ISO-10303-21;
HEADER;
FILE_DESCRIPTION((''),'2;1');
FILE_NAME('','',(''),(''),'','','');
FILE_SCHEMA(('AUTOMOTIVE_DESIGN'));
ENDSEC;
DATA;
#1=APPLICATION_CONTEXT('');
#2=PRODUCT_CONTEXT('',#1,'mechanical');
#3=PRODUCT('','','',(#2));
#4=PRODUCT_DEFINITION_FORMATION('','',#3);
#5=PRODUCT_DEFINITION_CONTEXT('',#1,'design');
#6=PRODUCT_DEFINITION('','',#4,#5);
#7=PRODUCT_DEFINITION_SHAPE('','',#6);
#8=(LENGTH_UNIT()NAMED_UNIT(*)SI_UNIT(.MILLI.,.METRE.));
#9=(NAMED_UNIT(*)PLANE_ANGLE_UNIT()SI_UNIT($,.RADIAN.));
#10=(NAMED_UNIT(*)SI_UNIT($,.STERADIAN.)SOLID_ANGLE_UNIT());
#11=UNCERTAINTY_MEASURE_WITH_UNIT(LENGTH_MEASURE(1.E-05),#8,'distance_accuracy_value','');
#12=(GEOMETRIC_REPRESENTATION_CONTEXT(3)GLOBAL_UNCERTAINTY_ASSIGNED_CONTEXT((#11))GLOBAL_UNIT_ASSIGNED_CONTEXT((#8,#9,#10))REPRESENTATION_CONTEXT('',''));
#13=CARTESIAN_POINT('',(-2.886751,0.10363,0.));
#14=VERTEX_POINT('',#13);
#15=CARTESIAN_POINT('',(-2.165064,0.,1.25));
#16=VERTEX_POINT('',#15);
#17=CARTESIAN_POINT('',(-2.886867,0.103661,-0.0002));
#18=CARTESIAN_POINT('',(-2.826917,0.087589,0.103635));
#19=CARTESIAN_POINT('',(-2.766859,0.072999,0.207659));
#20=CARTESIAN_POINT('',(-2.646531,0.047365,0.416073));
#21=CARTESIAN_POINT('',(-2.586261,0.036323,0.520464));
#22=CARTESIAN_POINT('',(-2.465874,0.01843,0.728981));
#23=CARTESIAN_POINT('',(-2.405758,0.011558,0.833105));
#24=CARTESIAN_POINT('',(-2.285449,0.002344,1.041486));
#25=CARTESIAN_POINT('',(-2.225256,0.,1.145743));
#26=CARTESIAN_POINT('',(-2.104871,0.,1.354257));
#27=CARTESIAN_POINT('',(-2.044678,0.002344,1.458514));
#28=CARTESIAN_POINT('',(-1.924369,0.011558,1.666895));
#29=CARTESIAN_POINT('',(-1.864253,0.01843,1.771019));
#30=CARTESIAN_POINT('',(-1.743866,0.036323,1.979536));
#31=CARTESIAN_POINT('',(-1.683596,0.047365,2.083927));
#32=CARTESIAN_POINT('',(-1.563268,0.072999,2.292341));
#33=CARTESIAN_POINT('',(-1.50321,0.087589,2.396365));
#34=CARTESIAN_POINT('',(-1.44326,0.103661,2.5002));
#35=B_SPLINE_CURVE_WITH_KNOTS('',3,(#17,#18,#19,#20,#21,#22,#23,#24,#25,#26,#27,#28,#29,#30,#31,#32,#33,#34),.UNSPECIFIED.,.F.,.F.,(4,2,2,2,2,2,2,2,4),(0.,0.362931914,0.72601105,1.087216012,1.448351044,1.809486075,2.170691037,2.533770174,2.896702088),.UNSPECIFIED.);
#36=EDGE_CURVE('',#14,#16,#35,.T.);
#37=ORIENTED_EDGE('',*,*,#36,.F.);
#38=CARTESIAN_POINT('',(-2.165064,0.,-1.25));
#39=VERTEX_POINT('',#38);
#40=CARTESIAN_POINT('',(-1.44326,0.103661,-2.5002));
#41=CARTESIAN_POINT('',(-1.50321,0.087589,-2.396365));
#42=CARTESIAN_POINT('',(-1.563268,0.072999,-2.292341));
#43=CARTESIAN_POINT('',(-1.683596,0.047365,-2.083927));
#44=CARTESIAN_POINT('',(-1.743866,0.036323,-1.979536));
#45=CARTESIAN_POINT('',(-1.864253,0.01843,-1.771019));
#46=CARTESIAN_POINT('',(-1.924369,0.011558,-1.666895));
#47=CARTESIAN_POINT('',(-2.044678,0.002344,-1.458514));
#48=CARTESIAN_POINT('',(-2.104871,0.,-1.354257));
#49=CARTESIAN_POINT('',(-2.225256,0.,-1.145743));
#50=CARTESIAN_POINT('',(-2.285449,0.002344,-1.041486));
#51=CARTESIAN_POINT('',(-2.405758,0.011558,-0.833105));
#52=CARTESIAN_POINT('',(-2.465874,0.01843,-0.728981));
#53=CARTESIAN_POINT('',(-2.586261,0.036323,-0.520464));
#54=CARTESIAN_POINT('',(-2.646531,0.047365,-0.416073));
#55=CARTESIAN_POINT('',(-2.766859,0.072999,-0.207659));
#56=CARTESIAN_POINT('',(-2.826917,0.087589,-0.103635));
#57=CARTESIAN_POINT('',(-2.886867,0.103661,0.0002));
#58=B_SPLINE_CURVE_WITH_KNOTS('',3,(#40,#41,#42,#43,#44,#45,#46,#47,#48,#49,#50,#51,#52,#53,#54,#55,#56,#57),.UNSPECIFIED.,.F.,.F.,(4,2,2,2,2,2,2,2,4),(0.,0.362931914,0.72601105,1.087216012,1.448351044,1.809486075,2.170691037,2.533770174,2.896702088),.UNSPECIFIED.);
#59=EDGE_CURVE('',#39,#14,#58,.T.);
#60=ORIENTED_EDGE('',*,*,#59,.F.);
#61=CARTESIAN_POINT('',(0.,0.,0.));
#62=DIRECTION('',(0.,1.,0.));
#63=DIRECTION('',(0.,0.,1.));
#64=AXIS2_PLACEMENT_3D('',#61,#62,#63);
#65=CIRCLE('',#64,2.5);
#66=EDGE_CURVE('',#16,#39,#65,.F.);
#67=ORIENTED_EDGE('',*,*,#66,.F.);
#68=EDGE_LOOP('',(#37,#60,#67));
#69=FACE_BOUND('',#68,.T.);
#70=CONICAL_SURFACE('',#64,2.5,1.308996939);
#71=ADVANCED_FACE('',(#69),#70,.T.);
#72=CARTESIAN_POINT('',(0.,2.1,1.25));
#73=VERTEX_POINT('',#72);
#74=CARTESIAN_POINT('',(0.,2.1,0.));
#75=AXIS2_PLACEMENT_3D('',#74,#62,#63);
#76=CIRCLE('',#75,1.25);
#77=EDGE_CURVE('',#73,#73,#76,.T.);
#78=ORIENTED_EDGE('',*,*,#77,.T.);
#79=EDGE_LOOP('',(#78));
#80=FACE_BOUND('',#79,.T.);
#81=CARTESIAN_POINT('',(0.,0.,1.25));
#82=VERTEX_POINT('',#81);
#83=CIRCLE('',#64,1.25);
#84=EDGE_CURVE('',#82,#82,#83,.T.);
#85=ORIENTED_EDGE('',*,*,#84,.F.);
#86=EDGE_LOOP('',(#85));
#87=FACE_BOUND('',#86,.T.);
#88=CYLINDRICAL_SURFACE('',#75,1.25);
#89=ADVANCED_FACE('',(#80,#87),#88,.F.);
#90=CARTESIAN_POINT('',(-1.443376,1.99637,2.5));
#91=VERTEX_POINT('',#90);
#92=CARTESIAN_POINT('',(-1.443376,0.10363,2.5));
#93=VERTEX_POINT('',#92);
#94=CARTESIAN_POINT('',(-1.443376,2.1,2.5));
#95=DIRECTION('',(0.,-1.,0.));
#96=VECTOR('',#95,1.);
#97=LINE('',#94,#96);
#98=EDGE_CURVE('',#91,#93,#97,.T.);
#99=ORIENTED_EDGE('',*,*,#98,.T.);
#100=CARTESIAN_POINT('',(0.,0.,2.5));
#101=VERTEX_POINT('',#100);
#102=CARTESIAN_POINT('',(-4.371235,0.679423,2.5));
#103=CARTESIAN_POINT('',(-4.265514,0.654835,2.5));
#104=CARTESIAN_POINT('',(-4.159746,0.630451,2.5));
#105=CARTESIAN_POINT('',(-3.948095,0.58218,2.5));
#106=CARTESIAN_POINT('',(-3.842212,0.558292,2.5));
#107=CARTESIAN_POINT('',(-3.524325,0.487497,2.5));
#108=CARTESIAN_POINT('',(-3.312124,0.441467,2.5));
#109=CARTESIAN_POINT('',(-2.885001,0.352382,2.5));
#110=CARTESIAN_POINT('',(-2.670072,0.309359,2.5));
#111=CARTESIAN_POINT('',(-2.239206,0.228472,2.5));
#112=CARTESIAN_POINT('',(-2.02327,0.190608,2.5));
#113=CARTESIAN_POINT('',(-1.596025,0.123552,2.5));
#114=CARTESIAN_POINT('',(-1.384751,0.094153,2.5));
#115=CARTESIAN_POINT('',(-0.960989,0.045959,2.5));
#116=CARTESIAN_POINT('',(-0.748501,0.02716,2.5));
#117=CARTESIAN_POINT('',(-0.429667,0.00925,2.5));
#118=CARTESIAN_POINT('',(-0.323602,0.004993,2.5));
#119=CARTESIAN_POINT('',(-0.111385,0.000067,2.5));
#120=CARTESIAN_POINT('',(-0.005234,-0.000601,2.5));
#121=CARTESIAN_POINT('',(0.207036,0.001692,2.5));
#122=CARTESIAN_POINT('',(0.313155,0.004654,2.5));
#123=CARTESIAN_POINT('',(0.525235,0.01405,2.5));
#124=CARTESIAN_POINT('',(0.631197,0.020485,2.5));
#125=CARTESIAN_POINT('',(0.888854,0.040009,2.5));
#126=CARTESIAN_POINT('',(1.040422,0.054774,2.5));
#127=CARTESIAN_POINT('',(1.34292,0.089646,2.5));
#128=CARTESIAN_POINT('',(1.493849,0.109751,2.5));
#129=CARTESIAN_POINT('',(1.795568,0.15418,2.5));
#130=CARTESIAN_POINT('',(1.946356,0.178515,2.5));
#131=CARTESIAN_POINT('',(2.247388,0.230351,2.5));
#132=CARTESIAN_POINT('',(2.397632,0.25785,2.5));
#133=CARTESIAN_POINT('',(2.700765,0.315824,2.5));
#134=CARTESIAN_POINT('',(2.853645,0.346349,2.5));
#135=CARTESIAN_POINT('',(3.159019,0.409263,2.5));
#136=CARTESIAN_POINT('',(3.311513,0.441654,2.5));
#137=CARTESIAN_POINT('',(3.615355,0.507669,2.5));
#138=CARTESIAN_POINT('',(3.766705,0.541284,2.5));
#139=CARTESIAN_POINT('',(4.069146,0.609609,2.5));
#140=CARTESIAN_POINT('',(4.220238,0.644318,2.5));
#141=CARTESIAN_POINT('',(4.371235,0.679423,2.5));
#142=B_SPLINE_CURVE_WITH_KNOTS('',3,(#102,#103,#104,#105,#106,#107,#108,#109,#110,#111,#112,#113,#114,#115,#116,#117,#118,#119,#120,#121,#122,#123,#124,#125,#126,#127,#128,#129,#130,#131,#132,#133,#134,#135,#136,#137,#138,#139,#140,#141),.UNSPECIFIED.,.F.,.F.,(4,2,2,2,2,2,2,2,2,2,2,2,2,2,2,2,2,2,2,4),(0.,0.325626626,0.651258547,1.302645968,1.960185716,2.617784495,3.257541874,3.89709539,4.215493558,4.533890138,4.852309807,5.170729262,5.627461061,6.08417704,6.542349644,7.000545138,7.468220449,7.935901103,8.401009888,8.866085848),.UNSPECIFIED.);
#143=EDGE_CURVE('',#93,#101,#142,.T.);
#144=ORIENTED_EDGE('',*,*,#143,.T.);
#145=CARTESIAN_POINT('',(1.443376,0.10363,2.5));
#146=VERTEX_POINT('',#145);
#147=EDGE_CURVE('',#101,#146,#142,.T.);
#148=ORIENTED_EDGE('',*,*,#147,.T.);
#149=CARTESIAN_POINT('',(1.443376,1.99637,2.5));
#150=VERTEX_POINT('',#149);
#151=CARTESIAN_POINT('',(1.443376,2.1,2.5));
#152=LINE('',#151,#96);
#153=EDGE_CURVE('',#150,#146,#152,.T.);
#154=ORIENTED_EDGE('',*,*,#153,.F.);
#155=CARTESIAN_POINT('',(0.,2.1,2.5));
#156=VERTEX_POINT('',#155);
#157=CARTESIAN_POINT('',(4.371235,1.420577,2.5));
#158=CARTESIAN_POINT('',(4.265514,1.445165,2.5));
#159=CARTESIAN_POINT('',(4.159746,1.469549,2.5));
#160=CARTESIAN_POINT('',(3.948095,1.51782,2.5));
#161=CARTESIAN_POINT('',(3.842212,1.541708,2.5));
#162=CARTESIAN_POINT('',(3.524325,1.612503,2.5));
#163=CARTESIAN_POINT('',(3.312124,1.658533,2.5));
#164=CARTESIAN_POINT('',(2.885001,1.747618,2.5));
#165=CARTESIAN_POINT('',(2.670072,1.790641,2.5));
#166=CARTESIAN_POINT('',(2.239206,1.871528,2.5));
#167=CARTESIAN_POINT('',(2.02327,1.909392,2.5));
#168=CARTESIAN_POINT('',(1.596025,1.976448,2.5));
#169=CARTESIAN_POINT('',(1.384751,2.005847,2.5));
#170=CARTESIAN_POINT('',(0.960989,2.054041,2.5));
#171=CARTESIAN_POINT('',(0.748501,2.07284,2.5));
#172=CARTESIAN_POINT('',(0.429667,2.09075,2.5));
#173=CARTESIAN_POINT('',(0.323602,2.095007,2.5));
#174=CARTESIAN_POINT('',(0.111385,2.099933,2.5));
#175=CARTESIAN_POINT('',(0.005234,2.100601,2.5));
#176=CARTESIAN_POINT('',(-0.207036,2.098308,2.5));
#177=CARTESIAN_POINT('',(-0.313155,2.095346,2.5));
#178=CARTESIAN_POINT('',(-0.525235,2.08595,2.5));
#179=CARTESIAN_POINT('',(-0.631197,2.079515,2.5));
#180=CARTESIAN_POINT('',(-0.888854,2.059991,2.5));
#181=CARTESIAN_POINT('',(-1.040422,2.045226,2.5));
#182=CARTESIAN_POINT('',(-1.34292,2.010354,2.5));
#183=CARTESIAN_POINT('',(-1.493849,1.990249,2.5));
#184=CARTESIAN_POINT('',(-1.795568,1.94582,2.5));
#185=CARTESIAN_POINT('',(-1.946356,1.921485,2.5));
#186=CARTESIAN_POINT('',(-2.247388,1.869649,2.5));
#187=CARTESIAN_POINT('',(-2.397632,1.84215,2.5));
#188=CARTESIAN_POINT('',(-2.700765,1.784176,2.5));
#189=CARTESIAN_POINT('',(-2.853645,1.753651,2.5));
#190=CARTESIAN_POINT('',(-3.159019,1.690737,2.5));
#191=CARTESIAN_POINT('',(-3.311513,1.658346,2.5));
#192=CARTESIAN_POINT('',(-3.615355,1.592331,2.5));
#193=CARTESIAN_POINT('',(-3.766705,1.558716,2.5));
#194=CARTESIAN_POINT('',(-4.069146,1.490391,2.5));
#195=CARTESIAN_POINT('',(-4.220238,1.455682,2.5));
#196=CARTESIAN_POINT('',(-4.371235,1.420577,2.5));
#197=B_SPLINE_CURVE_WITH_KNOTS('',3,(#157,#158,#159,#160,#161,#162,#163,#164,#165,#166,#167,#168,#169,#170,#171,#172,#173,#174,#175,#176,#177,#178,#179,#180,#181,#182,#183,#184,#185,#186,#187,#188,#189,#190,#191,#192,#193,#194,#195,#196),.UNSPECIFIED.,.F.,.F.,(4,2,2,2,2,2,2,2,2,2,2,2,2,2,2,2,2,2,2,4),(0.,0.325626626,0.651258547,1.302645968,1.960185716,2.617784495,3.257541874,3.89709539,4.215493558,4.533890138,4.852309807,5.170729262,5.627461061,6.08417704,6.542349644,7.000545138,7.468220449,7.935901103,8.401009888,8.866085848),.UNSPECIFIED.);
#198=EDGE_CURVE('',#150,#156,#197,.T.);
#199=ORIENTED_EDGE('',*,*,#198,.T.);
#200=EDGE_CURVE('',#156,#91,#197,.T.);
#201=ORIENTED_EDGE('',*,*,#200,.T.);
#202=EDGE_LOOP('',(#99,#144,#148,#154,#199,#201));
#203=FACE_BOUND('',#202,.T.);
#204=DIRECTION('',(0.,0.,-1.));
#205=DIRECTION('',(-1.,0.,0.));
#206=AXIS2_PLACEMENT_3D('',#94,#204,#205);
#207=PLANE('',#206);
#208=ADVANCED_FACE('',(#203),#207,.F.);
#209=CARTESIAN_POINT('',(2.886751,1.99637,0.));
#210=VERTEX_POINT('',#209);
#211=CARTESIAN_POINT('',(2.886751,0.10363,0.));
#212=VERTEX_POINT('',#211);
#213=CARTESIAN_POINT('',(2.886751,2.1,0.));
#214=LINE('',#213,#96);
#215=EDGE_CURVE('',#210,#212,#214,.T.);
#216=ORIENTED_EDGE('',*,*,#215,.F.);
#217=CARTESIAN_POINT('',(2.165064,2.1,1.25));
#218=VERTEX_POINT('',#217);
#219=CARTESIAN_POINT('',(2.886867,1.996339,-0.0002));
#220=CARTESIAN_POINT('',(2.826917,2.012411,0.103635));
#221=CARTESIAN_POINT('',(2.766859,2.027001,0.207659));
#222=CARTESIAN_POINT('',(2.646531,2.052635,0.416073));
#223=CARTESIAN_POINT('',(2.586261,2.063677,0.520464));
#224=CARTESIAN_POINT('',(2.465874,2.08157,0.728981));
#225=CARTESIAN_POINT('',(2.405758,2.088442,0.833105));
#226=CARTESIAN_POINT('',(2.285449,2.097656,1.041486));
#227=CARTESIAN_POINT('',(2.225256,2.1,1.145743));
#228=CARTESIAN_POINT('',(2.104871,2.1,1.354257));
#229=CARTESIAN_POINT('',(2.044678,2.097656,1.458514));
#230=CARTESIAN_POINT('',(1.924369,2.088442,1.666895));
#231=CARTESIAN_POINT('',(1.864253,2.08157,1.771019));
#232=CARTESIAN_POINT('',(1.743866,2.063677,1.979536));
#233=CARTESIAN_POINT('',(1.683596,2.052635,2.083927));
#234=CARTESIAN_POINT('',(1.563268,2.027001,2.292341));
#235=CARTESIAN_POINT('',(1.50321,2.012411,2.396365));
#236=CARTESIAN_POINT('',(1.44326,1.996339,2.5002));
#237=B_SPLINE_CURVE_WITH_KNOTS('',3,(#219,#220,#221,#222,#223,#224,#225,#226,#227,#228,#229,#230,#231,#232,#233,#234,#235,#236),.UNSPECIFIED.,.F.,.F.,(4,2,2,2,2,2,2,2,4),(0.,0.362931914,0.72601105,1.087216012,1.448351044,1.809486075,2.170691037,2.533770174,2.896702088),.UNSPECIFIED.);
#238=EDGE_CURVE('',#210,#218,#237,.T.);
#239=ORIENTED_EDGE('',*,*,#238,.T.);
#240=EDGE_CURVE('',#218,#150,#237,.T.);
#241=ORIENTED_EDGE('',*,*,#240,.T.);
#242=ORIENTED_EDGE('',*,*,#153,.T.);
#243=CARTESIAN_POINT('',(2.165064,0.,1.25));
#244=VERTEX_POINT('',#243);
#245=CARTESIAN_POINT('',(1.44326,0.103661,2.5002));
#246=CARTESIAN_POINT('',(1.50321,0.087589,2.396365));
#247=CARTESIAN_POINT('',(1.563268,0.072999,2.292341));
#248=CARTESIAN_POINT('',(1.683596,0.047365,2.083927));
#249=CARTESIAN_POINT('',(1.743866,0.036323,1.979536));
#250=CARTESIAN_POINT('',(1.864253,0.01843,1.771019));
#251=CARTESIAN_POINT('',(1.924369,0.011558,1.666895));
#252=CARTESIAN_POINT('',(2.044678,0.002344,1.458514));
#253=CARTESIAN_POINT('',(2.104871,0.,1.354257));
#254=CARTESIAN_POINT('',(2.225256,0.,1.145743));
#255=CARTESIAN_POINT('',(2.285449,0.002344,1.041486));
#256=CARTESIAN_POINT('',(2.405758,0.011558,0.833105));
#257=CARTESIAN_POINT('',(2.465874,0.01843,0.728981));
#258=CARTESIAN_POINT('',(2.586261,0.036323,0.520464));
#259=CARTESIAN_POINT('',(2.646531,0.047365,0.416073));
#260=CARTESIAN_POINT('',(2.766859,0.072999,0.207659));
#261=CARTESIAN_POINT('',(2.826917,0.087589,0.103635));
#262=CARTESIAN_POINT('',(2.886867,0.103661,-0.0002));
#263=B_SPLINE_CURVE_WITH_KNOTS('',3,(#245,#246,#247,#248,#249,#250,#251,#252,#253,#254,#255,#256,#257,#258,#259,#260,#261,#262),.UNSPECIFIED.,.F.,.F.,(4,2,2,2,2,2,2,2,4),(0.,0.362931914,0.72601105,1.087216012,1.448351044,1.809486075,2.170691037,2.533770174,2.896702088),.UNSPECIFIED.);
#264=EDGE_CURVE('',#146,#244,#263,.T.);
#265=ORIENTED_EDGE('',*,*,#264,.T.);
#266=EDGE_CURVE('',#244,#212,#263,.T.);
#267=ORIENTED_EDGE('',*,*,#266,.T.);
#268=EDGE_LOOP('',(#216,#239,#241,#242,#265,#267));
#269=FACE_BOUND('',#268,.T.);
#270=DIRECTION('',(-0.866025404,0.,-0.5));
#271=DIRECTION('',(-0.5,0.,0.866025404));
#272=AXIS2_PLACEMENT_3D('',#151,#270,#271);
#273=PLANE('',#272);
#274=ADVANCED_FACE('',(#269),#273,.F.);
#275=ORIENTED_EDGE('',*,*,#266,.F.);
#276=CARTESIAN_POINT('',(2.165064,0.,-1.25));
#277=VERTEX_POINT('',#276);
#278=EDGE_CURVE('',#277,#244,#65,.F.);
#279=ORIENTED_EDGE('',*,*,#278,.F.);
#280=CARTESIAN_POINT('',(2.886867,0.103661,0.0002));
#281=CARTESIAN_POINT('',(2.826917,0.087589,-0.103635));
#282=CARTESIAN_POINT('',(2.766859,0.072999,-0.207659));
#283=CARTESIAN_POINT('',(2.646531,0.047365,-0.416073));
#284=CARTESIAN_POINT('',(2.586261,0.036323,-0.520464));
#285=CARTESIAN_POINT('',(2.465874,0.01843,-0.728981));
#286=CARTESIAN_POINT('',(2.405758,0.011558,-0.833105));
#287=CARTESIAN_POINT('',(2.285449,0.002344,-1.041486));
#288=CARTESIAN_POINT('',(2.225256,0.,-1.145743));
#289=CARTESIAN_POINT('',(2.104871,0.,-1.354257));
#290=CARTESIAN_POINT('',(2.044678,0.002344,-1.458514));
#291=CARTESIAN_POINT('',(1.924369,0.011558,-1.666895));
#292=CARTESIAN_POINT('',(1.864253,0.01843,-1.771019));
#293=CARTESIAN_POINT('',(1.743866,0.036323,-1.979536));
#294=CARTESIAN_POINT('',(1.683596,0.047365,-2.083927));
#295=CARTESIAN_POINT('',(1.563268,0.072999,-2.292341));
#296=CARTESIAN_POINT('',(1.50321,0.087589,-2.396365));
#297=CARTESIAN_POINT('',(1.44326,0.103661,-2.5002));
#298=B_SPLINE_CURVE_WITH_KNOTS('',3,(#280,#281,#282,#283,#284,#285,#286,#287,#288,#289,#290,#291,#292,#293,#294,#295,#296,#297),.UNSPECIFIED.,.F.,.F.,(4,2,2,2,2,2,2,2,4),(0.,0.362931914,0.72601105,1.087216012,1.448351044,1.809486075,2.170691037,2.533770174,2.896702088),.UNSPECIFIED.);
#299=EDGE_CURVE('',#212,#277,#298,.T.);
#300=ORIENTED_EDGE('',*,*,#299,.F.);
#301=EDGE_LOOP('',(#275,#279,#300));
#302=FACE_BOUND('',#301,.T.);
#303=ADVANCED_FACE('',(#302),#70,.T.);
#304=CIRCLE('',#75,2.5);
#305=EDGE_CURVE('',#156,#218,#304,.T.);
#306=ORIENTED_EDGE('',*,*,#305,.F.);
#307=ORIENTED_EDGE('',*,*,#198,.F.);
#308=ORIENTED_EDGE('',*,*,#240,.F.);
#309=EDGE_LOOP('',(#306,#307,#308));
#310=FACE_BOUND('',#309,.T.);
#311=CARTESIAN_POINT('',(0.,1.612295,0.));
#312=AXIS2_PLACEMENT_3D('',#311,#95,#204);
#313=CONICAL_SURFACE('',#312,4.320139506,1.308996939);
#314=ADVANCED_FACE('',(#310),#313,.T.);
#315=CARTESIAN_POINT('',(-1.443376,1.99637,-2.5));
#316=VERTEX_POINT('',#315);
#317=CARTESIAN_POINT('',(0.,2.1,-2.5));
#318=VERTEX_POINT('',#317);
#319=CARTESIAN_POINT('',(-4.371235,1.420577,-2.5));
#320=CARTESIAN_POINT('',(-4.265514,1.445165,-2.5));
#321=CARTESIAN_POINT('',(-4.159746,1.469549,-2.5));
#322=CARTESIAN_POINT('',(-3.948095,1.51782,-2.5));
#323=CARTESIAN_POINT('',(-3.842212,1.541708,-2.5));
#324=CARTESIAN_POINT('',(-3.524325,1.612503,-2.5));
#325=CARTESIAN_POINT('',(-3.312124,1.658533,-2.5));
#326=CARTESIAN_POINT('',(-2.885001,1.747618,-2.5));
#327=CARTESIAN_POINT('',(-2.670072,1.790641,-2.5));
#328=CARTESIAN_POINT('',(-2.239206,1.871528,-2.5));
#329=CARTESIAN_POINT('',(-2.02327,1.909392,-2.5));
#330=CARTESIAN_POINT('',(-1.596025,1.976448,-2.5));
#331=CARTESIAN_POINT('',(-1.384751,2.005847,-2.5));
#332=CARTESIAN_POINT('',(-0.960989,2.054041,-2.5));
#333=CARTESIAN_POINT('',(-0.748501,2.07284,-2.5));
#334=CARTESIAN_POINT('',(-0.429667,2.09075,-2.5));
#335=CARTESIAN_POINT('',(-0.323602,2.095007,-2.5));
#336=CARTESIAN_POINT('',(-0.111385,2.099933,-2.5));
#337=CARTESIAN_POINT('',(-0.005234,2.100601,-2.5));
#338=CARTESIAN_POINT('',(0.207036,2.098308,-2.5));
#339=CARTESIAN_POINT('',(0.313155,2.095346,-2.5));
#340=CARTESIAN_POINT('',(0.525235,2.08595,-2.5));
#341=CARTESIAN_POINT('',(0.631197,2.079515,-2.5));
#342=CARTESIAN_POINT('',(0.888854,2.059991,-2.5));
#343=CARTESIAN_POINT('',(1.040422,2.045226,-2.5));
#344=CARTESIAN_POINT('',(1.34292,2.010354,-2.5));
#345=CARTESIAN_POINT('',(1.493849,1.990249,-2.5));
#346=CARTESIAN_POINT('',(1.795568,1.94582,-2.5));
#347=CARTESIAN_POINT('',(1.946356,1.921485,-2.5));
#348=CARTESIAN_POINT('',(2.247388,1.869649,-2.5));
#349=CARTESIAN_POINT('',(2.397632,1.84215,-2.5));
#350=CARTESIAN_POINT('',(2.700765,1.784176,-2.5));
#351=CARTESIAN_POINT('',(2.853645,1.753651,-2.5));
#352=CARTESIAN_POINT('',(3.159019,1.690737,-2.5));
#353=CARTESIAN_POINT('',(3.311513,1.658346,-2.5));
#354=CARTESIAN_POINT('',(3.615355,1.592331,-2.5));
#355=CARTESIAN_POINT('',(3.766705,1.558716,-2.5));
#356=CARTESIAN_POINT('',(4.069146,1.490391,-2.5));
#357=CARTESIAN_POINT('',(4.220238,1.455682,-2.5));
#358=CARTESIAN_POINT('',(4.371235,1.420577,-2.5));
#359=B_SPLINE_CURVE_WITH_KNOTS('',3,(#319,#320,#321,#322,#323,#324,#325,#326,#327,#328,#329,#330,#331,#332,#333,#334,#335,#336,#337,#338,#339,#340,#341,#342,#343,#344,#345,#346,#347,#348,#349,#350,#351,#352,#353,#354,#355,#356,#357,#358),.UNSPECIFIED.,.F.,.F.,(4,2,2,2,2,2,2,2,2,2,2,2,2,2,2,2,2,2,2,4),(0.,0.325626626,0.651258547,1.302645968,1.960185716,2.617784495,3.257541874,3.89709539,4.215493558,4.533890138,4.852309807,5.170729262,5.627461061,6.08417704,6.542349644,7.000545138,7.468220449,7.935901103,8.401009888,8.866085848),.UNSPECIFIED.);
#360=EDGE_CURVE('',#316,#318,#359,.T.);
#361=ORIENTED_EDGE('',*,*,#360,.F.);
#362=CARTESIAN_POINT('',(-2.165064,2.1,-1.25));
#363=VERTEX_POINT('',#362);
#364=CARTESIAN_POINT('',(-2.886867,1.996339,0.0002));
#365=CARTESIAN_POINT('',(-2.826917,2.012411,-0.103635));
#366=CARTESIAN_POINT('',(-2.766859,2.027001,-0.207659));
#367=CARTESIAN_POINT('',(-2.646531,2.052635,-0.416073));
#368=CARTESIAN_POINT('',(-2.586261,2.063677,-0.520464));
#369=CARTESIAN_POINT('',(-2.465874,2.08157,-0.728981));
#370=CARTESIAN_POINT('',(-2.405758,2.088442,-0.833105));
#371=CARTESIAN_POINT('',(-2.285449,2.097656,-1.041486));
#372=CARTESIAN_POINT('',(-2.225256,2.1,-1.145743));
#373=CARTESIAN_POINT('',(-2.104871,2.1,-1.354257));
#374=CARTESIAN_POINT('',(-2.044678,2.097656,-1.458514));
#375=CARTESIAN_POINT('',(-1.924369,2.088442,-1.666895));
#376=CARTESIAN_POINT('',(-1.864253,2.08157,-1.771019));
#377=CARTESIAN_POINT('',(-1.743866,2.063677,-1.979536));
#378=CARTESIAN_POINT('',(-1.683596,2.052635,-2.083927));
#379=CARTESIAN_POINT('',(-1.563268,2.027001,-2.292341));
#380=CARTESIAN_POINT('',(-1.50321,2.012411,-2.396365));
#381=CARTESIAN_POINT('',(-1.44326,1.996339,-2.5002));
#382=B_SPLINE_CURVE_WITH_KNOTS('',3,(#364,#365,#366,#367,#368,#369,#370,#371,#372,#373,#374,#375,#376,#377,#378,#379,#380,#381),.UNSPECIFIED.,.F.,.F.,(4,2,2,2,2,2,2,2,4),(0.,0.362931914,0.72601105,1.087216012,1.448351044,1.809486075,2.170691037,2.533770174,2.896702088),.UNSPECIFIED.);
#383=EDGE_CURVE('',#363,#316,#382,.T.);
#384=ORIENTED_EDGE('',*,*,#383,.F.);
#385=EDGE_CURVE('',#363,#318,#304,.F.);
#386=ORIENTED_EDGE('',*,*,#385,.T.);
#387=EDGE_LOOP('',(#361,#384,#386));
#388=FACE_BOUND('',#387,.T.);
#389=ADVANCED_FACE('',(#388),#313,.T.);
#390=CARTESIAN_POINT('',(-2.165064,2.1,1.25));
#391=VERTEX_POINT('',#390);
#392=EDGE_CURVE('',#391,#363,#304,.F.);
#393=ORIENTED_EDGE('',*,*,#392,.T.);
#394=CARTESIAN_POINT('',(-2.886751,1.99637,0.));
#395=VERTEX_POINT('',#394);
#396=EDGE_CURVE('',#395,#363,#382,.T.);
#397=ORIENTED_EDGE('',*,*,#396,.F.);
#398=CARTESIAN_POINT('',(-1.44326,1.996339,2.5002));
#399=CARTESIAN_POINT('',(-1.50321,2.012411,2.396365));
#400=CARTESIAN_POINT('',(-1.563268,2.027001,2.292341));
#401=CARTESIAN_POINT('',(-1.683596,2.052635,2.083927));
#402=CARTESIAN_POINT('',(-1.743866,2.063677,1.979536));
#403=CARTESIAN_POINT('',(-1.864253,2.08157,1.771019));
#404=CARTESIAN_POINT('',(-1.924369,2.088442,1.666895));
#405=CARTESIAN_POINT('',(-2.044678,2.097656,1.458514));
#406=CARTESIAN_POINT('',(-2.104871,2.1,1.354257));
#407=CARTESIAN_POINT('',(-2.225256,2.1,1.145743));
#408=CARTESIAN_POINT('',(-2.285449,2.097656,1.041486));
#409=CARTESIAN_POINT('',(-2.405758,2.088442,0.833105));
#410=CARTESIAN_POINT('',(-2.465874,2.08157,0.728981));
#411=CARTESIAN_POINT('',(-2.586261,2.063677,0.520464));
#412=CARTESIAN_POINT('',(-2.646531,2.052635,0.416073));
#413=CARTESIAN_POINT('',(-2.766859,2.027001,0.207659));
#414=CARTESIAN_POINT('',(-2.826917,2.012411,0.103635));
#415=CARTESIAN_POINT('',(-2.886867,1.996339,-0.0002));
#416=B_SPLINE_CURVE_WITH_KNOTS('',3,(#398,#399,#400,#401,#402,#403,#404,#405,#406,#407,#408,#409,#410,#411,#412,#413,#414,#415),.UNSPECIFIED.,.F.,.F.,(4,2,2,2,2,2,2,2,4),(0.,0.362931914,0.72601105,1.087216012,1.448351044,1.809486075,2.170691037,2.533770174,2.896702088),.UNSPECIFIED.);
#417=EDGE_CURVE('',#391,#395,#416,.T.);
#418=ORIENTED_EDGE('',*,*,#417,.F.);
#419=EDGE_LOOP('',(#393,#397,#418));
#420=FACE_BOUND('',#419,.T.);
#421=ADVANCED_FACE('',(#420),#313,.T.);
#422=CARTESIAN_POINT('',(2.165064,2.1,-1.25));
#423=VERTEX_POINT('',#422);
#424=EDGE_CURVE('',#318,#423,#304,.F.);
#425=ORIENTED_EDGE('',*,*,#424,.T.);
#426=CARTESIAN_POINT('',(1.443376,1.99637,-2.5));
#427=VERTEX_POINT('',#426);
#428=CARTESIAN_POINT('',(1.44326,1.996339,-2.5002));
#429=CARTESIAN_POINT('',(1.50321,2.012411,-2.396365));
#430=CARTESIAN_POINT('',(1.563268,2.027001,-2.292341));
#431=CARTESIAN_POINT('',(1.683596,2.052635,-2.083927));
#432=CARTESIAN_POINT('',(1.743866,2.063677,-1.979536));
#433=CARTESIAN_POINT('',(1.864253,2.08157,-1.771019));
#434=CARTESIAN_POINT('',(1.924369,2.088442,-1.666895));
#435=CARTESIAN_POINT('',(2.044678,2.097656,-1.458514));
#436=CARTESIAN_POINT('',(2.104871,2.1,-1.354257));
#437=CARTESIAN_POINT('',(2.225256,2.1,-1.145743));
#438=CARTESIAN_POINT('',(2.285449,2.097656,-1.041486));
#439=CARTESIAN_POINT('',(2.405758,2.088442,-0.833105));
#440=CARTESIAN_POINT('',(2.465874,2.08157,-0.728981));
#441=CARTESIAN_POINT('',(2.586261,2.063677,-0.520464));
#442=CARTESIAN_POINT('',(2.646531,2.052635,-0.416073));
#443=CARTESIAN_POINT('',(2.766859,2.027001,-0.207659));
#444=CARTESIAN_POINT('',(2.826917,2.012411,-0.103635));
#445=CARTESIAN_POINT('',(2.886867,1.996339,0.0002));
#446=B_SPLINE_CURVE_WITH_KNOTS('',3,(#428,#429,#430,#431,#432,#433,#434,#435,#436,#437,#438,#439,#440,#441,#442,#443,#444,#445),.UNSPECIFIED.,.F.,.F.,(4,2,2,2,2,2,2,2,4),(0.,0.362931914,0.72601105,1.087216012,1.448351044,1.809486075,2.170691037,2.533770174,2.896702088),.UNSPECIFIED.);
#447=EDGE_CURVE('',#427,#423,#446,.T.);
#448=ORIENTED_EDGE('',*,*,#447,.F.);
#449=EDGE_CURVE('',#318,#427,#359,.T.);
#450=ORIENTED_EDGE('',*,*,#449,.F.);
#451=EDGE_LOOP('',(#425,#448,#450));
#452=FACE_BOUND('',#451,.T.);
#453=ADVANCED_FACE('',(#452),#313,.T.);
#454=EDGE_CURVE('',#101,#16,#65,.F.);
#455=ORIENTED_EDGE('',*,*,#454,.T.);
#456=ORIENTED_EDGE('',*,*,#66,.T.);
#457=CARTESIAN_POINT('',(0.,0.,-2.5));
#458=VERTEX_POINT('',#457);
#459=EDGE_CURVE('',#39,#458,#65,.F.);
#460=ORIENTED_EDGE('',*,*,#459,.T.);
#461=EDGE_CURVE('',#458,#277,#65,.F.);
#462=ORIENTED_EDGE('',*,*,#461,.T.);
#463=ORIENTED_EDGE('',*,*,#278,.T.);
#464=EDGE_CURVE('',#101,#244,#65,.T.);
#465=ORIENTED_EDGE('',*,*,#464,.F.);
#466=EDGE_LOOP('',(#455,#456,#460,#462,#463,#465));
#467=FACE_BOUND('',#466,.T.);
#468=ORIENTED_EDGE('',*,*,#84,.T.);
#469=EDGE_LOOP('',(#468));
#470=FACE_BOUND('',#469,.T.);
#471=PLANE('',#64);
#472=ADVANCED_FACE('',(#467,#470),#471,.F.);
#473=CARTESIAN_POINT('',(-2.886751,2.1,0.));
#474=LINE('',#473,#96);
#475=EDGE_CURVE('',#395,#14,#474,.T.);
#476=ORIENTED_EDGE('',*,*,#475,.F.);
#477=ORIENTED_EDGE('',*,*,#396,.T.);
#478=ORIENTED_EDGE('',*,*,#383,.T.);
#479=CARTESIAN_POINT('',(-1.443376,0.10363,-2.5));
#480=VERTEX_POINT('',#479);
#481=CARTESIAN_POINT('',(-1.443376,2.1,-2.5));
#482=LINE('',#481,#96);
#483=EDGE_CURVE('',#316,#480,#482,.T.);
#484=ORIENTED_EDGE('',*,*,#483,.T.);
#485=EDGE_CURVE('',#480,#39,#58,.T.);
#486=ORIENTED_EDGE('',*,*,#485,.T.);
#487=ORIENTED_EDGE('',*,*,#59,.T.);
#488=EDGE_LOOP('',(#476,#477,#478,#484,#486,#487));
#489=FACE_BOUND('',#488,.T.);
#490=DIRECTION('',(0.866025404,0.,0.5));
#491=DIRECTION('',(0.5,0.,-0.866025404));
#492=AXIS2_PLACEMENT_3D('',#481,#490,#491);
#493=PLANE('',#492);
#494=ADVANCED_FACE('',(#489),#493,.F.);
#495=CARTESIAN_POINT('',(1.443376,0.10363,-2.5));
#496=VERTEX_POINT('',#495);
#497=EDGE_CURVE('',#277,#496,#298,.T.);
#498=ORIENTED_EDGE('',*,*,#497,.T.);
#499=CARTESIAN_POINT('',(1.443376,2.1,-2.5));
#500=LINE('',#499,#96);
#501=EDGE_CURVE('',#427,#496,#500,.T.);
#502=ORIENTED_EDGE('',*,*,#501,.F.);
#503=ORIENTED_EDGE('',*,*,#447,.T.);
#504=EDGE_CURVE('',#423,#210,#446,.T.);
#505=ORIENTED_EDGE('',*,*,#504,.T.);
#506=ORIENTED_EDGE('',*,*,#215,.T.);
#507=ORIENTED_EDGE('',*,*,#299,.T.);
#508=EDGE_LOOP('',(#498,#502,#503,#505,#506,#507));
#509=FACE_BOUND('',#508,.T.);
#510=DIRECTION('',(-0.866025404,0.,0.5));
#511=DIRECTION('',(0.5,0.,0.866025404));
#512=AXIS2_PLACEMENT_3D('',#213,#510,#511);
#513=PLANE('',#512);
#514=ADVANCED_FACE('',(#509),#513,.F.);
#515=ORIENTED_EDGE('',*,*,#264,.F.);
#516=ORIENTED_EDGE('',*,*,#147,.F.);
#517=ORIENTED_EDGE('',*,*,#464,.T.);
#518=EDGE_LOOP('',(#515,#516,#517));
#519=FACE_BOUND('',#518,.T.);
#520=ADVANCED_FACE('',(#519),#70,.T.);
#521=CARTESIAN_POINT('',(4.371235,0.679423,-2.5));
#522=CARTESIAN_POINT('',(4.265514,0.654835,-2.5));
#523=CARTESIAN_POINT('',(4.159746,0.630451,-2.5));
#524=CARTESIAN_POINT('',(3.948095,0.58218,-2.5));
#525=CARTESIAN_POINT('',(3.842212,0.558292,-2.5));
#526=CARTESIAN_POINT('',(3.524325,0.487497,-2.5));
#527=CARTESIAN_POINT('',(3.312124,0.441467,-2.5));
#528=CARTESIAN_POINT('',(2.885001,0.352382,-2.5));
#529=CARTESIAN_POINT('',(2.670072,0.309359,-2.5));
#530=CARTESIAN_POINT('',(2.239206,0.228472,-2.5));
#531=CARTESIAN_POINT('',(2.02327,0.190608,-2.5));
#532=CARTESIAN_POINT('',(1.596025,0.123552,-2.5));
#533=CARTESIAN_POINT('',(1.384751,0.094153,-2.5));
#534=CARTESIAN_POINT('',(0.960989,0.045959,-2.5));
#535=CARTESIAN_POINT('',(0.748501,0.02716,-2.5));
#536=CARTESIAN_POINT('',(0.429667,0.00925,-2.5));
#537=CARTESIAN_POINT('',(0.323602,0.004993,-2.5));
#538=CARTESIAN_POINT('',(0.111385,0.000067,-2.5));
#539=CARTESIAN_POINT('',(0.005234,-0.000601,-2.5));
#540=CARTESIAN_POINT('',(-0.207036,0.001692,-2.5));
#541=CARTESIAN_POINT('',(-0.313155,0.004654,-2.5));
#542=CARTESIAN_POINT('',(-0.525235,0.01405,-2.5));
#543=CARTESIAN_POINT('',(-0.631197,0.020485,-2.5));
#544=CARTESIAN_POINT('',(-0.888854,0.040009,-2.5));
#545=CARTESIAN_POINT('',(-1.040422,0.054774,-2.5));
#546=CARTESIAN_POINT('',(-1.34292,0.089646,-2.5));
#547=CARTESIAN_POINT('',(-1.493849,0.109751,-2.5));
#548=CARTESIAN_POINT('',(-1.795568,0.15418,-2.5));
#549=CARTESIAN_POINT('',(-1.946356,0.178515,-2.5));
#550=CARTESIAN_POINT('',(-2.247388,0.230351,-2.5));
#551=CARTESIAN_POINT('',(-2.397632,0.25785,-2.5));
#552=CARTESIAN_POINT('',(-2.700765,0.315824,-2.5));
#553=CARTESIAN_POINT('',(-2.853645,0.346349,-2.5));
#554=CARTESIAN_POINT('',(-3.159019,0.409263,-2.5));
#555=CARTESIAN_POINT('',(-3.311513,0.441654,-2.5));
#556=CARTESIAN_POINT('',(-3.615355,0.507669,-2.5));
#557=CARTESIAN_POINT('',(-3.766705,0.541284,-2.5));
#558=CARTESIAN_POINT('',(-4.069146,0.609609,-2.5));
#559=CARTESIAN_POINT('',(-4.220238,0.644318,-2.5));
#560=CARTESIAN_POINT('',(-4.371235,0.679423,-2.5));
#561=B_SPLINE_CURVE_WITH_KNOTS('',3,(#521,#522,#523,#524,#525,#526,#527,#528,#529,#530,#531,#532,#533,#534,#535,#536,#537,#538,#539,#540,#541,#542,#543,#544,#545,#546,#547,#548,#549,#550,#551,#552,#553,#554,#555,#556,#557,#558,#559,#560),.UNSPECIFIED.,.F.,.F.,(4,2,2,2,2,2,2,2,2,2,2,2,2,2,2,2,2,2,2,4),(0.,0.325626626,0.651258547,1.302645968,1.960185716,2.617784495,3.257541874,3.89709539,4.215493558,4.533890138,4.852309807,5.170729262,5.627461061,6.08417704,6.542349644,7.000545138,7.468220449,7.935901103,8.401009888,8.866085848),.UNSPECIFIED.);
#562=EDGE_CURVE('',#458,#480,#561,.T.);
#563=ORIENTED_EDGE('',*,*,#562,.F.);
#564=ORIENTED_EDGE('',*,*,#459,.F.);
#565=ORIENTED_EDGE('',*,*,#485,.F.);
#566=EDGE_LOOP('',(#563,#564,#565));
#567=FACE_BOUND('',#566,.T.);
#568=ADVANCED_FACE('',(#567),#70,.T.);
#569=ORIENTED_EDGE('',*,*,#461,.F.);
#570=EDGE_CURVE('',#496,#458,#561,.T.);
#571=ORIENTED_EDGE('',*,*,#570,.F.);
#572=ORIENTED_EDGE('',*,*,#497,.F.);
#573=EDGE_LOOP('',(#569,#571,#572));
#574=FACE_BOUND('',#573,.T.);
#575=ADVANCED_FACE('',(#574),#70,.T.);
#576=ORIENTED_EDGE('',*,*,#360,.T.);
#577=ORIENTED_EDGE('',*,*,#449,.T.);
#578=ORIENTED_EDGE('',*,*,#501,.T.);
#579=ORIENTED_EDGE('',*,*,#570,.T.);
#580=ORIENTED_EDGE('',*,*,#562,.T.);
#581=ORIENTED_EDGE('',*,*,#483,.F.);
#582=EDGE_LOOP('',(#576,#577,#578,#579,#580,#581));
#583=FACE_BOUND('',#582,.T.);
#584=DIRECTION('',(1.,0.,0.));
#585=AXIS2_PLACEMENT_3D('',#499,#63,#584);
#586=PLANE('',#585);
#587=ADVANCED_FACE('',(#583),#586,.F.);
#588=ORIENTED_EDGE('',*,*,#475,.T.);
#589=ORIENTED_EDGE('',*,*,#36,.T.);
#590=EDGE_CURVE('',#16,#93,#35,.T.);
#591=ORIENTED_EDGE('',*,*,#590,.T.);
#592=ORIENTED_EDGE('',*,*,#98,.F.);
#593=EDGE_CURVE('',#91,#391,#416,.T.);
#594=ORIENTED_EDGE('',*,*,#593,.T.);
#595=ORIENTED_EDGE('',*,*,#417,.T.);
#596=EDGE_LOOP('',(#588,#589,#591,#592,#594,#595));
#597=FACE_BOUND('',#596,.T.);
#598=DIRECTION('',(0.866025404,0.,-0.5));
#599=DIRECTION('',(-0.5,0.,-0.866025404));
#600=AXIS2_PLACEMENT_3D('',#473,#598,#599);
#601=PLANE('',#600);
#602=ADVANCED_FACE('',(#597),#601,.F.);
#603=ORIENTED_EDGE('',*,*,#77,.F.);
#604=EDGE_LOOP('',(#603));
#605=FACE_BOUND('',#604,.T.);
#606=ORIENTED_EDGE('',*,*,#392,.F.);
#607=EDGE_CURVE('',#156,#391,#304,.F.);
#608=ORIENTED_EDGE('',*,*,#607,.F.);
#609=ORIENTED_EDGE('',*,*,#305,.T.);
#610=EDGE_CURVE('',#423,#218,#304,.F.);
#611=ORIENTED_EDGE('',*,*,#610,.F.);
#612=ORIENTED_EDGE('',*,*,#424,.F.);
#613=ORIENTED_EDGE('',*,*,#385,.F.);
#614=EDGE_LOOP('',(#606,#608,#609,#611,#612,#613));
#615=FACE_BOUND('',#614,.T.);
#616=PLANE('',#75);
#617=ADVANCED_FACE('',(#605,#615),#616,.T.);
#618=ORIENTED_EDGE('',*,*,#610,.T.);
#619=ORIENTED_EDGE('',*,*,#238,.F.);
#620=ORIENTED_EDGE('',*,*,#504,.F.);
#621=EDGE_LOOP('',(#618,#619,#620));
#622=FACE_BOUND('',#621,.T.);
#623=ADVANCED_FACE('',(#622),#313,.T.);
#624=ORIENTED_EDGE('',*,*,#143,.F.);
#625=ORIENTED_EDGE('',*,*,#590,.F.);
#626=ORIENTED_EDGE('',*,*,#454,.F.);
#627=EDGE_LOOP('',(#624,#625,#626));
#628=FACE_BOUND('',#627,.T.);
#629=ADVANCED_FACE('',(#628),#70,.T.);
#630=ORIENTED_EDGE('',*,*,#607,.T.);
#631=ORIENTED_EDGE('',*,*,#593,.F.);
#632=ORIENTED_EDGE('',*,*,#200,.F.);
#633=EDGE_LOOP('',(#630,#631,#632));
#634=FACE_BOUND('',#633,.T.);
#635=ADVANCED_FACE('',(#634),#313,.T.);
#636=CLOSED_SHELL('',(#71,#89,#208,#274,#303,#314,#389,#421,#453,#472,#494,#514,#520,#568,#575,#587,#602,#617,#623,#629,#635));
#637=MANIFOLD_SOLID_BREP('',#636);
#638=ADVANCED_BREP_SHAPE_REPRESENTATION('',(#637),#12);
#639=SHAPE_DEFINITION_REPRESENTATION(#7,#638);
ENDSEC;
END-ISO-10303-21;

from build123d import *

# Parameters (mm, degrees)
EXTRUDE_1_DEPTH    = 2.1
HOLE_WIZARD_M3_1_D = 2.5


with BuildPart() as part:
    # 草图1 → 凸台-拉伸1 (new body)
    with BuildSketch(Plane(origin=(0, 0, 0), x_dir=(1, 0, 0), z_dir=(0, 1, 0))):
        Polygon((2.886751346, 0), (1.443375673, 2.5), (-1.443375673, 2.5), (-2.886751346, 0), (-1.443375673, -2.5), (1.443375673, -2.5), align=None)
    extrude(amount=EXTRUDE_1_DEPTH)

    # M3 螺纹孔1 (through all)
    with Locations(Plane(origin=(0, 2.1, 0), x_dir=(1, 0, 0), z_dir=(0, 1, 0))):
        with Locations((0, 0)):
            Hole(HOLE_WIZARD_M3_1_D / 2)

    # 草图5 → 切除-旋转1 (revolve, cut)
    with BuildSketch(Plane(origin=(0, 0, 0), x_dir=(0, 0, -1), z_dir=(1, 0, 0))):
        Polygon((-2.5, 0), (-4.320139506, 0.487704911), (-4.320139506, -0.855779568), align=None)
        Polygon((-4.320139506, 2.955779568), (-2.5, 2.1), (-4.320139506, 1.612295089), align=None)
    revolve(axis=Axis((0, 0, 0), (0, -1, 0)), mode=Mode.SUBTRACT)


solid = part.part
